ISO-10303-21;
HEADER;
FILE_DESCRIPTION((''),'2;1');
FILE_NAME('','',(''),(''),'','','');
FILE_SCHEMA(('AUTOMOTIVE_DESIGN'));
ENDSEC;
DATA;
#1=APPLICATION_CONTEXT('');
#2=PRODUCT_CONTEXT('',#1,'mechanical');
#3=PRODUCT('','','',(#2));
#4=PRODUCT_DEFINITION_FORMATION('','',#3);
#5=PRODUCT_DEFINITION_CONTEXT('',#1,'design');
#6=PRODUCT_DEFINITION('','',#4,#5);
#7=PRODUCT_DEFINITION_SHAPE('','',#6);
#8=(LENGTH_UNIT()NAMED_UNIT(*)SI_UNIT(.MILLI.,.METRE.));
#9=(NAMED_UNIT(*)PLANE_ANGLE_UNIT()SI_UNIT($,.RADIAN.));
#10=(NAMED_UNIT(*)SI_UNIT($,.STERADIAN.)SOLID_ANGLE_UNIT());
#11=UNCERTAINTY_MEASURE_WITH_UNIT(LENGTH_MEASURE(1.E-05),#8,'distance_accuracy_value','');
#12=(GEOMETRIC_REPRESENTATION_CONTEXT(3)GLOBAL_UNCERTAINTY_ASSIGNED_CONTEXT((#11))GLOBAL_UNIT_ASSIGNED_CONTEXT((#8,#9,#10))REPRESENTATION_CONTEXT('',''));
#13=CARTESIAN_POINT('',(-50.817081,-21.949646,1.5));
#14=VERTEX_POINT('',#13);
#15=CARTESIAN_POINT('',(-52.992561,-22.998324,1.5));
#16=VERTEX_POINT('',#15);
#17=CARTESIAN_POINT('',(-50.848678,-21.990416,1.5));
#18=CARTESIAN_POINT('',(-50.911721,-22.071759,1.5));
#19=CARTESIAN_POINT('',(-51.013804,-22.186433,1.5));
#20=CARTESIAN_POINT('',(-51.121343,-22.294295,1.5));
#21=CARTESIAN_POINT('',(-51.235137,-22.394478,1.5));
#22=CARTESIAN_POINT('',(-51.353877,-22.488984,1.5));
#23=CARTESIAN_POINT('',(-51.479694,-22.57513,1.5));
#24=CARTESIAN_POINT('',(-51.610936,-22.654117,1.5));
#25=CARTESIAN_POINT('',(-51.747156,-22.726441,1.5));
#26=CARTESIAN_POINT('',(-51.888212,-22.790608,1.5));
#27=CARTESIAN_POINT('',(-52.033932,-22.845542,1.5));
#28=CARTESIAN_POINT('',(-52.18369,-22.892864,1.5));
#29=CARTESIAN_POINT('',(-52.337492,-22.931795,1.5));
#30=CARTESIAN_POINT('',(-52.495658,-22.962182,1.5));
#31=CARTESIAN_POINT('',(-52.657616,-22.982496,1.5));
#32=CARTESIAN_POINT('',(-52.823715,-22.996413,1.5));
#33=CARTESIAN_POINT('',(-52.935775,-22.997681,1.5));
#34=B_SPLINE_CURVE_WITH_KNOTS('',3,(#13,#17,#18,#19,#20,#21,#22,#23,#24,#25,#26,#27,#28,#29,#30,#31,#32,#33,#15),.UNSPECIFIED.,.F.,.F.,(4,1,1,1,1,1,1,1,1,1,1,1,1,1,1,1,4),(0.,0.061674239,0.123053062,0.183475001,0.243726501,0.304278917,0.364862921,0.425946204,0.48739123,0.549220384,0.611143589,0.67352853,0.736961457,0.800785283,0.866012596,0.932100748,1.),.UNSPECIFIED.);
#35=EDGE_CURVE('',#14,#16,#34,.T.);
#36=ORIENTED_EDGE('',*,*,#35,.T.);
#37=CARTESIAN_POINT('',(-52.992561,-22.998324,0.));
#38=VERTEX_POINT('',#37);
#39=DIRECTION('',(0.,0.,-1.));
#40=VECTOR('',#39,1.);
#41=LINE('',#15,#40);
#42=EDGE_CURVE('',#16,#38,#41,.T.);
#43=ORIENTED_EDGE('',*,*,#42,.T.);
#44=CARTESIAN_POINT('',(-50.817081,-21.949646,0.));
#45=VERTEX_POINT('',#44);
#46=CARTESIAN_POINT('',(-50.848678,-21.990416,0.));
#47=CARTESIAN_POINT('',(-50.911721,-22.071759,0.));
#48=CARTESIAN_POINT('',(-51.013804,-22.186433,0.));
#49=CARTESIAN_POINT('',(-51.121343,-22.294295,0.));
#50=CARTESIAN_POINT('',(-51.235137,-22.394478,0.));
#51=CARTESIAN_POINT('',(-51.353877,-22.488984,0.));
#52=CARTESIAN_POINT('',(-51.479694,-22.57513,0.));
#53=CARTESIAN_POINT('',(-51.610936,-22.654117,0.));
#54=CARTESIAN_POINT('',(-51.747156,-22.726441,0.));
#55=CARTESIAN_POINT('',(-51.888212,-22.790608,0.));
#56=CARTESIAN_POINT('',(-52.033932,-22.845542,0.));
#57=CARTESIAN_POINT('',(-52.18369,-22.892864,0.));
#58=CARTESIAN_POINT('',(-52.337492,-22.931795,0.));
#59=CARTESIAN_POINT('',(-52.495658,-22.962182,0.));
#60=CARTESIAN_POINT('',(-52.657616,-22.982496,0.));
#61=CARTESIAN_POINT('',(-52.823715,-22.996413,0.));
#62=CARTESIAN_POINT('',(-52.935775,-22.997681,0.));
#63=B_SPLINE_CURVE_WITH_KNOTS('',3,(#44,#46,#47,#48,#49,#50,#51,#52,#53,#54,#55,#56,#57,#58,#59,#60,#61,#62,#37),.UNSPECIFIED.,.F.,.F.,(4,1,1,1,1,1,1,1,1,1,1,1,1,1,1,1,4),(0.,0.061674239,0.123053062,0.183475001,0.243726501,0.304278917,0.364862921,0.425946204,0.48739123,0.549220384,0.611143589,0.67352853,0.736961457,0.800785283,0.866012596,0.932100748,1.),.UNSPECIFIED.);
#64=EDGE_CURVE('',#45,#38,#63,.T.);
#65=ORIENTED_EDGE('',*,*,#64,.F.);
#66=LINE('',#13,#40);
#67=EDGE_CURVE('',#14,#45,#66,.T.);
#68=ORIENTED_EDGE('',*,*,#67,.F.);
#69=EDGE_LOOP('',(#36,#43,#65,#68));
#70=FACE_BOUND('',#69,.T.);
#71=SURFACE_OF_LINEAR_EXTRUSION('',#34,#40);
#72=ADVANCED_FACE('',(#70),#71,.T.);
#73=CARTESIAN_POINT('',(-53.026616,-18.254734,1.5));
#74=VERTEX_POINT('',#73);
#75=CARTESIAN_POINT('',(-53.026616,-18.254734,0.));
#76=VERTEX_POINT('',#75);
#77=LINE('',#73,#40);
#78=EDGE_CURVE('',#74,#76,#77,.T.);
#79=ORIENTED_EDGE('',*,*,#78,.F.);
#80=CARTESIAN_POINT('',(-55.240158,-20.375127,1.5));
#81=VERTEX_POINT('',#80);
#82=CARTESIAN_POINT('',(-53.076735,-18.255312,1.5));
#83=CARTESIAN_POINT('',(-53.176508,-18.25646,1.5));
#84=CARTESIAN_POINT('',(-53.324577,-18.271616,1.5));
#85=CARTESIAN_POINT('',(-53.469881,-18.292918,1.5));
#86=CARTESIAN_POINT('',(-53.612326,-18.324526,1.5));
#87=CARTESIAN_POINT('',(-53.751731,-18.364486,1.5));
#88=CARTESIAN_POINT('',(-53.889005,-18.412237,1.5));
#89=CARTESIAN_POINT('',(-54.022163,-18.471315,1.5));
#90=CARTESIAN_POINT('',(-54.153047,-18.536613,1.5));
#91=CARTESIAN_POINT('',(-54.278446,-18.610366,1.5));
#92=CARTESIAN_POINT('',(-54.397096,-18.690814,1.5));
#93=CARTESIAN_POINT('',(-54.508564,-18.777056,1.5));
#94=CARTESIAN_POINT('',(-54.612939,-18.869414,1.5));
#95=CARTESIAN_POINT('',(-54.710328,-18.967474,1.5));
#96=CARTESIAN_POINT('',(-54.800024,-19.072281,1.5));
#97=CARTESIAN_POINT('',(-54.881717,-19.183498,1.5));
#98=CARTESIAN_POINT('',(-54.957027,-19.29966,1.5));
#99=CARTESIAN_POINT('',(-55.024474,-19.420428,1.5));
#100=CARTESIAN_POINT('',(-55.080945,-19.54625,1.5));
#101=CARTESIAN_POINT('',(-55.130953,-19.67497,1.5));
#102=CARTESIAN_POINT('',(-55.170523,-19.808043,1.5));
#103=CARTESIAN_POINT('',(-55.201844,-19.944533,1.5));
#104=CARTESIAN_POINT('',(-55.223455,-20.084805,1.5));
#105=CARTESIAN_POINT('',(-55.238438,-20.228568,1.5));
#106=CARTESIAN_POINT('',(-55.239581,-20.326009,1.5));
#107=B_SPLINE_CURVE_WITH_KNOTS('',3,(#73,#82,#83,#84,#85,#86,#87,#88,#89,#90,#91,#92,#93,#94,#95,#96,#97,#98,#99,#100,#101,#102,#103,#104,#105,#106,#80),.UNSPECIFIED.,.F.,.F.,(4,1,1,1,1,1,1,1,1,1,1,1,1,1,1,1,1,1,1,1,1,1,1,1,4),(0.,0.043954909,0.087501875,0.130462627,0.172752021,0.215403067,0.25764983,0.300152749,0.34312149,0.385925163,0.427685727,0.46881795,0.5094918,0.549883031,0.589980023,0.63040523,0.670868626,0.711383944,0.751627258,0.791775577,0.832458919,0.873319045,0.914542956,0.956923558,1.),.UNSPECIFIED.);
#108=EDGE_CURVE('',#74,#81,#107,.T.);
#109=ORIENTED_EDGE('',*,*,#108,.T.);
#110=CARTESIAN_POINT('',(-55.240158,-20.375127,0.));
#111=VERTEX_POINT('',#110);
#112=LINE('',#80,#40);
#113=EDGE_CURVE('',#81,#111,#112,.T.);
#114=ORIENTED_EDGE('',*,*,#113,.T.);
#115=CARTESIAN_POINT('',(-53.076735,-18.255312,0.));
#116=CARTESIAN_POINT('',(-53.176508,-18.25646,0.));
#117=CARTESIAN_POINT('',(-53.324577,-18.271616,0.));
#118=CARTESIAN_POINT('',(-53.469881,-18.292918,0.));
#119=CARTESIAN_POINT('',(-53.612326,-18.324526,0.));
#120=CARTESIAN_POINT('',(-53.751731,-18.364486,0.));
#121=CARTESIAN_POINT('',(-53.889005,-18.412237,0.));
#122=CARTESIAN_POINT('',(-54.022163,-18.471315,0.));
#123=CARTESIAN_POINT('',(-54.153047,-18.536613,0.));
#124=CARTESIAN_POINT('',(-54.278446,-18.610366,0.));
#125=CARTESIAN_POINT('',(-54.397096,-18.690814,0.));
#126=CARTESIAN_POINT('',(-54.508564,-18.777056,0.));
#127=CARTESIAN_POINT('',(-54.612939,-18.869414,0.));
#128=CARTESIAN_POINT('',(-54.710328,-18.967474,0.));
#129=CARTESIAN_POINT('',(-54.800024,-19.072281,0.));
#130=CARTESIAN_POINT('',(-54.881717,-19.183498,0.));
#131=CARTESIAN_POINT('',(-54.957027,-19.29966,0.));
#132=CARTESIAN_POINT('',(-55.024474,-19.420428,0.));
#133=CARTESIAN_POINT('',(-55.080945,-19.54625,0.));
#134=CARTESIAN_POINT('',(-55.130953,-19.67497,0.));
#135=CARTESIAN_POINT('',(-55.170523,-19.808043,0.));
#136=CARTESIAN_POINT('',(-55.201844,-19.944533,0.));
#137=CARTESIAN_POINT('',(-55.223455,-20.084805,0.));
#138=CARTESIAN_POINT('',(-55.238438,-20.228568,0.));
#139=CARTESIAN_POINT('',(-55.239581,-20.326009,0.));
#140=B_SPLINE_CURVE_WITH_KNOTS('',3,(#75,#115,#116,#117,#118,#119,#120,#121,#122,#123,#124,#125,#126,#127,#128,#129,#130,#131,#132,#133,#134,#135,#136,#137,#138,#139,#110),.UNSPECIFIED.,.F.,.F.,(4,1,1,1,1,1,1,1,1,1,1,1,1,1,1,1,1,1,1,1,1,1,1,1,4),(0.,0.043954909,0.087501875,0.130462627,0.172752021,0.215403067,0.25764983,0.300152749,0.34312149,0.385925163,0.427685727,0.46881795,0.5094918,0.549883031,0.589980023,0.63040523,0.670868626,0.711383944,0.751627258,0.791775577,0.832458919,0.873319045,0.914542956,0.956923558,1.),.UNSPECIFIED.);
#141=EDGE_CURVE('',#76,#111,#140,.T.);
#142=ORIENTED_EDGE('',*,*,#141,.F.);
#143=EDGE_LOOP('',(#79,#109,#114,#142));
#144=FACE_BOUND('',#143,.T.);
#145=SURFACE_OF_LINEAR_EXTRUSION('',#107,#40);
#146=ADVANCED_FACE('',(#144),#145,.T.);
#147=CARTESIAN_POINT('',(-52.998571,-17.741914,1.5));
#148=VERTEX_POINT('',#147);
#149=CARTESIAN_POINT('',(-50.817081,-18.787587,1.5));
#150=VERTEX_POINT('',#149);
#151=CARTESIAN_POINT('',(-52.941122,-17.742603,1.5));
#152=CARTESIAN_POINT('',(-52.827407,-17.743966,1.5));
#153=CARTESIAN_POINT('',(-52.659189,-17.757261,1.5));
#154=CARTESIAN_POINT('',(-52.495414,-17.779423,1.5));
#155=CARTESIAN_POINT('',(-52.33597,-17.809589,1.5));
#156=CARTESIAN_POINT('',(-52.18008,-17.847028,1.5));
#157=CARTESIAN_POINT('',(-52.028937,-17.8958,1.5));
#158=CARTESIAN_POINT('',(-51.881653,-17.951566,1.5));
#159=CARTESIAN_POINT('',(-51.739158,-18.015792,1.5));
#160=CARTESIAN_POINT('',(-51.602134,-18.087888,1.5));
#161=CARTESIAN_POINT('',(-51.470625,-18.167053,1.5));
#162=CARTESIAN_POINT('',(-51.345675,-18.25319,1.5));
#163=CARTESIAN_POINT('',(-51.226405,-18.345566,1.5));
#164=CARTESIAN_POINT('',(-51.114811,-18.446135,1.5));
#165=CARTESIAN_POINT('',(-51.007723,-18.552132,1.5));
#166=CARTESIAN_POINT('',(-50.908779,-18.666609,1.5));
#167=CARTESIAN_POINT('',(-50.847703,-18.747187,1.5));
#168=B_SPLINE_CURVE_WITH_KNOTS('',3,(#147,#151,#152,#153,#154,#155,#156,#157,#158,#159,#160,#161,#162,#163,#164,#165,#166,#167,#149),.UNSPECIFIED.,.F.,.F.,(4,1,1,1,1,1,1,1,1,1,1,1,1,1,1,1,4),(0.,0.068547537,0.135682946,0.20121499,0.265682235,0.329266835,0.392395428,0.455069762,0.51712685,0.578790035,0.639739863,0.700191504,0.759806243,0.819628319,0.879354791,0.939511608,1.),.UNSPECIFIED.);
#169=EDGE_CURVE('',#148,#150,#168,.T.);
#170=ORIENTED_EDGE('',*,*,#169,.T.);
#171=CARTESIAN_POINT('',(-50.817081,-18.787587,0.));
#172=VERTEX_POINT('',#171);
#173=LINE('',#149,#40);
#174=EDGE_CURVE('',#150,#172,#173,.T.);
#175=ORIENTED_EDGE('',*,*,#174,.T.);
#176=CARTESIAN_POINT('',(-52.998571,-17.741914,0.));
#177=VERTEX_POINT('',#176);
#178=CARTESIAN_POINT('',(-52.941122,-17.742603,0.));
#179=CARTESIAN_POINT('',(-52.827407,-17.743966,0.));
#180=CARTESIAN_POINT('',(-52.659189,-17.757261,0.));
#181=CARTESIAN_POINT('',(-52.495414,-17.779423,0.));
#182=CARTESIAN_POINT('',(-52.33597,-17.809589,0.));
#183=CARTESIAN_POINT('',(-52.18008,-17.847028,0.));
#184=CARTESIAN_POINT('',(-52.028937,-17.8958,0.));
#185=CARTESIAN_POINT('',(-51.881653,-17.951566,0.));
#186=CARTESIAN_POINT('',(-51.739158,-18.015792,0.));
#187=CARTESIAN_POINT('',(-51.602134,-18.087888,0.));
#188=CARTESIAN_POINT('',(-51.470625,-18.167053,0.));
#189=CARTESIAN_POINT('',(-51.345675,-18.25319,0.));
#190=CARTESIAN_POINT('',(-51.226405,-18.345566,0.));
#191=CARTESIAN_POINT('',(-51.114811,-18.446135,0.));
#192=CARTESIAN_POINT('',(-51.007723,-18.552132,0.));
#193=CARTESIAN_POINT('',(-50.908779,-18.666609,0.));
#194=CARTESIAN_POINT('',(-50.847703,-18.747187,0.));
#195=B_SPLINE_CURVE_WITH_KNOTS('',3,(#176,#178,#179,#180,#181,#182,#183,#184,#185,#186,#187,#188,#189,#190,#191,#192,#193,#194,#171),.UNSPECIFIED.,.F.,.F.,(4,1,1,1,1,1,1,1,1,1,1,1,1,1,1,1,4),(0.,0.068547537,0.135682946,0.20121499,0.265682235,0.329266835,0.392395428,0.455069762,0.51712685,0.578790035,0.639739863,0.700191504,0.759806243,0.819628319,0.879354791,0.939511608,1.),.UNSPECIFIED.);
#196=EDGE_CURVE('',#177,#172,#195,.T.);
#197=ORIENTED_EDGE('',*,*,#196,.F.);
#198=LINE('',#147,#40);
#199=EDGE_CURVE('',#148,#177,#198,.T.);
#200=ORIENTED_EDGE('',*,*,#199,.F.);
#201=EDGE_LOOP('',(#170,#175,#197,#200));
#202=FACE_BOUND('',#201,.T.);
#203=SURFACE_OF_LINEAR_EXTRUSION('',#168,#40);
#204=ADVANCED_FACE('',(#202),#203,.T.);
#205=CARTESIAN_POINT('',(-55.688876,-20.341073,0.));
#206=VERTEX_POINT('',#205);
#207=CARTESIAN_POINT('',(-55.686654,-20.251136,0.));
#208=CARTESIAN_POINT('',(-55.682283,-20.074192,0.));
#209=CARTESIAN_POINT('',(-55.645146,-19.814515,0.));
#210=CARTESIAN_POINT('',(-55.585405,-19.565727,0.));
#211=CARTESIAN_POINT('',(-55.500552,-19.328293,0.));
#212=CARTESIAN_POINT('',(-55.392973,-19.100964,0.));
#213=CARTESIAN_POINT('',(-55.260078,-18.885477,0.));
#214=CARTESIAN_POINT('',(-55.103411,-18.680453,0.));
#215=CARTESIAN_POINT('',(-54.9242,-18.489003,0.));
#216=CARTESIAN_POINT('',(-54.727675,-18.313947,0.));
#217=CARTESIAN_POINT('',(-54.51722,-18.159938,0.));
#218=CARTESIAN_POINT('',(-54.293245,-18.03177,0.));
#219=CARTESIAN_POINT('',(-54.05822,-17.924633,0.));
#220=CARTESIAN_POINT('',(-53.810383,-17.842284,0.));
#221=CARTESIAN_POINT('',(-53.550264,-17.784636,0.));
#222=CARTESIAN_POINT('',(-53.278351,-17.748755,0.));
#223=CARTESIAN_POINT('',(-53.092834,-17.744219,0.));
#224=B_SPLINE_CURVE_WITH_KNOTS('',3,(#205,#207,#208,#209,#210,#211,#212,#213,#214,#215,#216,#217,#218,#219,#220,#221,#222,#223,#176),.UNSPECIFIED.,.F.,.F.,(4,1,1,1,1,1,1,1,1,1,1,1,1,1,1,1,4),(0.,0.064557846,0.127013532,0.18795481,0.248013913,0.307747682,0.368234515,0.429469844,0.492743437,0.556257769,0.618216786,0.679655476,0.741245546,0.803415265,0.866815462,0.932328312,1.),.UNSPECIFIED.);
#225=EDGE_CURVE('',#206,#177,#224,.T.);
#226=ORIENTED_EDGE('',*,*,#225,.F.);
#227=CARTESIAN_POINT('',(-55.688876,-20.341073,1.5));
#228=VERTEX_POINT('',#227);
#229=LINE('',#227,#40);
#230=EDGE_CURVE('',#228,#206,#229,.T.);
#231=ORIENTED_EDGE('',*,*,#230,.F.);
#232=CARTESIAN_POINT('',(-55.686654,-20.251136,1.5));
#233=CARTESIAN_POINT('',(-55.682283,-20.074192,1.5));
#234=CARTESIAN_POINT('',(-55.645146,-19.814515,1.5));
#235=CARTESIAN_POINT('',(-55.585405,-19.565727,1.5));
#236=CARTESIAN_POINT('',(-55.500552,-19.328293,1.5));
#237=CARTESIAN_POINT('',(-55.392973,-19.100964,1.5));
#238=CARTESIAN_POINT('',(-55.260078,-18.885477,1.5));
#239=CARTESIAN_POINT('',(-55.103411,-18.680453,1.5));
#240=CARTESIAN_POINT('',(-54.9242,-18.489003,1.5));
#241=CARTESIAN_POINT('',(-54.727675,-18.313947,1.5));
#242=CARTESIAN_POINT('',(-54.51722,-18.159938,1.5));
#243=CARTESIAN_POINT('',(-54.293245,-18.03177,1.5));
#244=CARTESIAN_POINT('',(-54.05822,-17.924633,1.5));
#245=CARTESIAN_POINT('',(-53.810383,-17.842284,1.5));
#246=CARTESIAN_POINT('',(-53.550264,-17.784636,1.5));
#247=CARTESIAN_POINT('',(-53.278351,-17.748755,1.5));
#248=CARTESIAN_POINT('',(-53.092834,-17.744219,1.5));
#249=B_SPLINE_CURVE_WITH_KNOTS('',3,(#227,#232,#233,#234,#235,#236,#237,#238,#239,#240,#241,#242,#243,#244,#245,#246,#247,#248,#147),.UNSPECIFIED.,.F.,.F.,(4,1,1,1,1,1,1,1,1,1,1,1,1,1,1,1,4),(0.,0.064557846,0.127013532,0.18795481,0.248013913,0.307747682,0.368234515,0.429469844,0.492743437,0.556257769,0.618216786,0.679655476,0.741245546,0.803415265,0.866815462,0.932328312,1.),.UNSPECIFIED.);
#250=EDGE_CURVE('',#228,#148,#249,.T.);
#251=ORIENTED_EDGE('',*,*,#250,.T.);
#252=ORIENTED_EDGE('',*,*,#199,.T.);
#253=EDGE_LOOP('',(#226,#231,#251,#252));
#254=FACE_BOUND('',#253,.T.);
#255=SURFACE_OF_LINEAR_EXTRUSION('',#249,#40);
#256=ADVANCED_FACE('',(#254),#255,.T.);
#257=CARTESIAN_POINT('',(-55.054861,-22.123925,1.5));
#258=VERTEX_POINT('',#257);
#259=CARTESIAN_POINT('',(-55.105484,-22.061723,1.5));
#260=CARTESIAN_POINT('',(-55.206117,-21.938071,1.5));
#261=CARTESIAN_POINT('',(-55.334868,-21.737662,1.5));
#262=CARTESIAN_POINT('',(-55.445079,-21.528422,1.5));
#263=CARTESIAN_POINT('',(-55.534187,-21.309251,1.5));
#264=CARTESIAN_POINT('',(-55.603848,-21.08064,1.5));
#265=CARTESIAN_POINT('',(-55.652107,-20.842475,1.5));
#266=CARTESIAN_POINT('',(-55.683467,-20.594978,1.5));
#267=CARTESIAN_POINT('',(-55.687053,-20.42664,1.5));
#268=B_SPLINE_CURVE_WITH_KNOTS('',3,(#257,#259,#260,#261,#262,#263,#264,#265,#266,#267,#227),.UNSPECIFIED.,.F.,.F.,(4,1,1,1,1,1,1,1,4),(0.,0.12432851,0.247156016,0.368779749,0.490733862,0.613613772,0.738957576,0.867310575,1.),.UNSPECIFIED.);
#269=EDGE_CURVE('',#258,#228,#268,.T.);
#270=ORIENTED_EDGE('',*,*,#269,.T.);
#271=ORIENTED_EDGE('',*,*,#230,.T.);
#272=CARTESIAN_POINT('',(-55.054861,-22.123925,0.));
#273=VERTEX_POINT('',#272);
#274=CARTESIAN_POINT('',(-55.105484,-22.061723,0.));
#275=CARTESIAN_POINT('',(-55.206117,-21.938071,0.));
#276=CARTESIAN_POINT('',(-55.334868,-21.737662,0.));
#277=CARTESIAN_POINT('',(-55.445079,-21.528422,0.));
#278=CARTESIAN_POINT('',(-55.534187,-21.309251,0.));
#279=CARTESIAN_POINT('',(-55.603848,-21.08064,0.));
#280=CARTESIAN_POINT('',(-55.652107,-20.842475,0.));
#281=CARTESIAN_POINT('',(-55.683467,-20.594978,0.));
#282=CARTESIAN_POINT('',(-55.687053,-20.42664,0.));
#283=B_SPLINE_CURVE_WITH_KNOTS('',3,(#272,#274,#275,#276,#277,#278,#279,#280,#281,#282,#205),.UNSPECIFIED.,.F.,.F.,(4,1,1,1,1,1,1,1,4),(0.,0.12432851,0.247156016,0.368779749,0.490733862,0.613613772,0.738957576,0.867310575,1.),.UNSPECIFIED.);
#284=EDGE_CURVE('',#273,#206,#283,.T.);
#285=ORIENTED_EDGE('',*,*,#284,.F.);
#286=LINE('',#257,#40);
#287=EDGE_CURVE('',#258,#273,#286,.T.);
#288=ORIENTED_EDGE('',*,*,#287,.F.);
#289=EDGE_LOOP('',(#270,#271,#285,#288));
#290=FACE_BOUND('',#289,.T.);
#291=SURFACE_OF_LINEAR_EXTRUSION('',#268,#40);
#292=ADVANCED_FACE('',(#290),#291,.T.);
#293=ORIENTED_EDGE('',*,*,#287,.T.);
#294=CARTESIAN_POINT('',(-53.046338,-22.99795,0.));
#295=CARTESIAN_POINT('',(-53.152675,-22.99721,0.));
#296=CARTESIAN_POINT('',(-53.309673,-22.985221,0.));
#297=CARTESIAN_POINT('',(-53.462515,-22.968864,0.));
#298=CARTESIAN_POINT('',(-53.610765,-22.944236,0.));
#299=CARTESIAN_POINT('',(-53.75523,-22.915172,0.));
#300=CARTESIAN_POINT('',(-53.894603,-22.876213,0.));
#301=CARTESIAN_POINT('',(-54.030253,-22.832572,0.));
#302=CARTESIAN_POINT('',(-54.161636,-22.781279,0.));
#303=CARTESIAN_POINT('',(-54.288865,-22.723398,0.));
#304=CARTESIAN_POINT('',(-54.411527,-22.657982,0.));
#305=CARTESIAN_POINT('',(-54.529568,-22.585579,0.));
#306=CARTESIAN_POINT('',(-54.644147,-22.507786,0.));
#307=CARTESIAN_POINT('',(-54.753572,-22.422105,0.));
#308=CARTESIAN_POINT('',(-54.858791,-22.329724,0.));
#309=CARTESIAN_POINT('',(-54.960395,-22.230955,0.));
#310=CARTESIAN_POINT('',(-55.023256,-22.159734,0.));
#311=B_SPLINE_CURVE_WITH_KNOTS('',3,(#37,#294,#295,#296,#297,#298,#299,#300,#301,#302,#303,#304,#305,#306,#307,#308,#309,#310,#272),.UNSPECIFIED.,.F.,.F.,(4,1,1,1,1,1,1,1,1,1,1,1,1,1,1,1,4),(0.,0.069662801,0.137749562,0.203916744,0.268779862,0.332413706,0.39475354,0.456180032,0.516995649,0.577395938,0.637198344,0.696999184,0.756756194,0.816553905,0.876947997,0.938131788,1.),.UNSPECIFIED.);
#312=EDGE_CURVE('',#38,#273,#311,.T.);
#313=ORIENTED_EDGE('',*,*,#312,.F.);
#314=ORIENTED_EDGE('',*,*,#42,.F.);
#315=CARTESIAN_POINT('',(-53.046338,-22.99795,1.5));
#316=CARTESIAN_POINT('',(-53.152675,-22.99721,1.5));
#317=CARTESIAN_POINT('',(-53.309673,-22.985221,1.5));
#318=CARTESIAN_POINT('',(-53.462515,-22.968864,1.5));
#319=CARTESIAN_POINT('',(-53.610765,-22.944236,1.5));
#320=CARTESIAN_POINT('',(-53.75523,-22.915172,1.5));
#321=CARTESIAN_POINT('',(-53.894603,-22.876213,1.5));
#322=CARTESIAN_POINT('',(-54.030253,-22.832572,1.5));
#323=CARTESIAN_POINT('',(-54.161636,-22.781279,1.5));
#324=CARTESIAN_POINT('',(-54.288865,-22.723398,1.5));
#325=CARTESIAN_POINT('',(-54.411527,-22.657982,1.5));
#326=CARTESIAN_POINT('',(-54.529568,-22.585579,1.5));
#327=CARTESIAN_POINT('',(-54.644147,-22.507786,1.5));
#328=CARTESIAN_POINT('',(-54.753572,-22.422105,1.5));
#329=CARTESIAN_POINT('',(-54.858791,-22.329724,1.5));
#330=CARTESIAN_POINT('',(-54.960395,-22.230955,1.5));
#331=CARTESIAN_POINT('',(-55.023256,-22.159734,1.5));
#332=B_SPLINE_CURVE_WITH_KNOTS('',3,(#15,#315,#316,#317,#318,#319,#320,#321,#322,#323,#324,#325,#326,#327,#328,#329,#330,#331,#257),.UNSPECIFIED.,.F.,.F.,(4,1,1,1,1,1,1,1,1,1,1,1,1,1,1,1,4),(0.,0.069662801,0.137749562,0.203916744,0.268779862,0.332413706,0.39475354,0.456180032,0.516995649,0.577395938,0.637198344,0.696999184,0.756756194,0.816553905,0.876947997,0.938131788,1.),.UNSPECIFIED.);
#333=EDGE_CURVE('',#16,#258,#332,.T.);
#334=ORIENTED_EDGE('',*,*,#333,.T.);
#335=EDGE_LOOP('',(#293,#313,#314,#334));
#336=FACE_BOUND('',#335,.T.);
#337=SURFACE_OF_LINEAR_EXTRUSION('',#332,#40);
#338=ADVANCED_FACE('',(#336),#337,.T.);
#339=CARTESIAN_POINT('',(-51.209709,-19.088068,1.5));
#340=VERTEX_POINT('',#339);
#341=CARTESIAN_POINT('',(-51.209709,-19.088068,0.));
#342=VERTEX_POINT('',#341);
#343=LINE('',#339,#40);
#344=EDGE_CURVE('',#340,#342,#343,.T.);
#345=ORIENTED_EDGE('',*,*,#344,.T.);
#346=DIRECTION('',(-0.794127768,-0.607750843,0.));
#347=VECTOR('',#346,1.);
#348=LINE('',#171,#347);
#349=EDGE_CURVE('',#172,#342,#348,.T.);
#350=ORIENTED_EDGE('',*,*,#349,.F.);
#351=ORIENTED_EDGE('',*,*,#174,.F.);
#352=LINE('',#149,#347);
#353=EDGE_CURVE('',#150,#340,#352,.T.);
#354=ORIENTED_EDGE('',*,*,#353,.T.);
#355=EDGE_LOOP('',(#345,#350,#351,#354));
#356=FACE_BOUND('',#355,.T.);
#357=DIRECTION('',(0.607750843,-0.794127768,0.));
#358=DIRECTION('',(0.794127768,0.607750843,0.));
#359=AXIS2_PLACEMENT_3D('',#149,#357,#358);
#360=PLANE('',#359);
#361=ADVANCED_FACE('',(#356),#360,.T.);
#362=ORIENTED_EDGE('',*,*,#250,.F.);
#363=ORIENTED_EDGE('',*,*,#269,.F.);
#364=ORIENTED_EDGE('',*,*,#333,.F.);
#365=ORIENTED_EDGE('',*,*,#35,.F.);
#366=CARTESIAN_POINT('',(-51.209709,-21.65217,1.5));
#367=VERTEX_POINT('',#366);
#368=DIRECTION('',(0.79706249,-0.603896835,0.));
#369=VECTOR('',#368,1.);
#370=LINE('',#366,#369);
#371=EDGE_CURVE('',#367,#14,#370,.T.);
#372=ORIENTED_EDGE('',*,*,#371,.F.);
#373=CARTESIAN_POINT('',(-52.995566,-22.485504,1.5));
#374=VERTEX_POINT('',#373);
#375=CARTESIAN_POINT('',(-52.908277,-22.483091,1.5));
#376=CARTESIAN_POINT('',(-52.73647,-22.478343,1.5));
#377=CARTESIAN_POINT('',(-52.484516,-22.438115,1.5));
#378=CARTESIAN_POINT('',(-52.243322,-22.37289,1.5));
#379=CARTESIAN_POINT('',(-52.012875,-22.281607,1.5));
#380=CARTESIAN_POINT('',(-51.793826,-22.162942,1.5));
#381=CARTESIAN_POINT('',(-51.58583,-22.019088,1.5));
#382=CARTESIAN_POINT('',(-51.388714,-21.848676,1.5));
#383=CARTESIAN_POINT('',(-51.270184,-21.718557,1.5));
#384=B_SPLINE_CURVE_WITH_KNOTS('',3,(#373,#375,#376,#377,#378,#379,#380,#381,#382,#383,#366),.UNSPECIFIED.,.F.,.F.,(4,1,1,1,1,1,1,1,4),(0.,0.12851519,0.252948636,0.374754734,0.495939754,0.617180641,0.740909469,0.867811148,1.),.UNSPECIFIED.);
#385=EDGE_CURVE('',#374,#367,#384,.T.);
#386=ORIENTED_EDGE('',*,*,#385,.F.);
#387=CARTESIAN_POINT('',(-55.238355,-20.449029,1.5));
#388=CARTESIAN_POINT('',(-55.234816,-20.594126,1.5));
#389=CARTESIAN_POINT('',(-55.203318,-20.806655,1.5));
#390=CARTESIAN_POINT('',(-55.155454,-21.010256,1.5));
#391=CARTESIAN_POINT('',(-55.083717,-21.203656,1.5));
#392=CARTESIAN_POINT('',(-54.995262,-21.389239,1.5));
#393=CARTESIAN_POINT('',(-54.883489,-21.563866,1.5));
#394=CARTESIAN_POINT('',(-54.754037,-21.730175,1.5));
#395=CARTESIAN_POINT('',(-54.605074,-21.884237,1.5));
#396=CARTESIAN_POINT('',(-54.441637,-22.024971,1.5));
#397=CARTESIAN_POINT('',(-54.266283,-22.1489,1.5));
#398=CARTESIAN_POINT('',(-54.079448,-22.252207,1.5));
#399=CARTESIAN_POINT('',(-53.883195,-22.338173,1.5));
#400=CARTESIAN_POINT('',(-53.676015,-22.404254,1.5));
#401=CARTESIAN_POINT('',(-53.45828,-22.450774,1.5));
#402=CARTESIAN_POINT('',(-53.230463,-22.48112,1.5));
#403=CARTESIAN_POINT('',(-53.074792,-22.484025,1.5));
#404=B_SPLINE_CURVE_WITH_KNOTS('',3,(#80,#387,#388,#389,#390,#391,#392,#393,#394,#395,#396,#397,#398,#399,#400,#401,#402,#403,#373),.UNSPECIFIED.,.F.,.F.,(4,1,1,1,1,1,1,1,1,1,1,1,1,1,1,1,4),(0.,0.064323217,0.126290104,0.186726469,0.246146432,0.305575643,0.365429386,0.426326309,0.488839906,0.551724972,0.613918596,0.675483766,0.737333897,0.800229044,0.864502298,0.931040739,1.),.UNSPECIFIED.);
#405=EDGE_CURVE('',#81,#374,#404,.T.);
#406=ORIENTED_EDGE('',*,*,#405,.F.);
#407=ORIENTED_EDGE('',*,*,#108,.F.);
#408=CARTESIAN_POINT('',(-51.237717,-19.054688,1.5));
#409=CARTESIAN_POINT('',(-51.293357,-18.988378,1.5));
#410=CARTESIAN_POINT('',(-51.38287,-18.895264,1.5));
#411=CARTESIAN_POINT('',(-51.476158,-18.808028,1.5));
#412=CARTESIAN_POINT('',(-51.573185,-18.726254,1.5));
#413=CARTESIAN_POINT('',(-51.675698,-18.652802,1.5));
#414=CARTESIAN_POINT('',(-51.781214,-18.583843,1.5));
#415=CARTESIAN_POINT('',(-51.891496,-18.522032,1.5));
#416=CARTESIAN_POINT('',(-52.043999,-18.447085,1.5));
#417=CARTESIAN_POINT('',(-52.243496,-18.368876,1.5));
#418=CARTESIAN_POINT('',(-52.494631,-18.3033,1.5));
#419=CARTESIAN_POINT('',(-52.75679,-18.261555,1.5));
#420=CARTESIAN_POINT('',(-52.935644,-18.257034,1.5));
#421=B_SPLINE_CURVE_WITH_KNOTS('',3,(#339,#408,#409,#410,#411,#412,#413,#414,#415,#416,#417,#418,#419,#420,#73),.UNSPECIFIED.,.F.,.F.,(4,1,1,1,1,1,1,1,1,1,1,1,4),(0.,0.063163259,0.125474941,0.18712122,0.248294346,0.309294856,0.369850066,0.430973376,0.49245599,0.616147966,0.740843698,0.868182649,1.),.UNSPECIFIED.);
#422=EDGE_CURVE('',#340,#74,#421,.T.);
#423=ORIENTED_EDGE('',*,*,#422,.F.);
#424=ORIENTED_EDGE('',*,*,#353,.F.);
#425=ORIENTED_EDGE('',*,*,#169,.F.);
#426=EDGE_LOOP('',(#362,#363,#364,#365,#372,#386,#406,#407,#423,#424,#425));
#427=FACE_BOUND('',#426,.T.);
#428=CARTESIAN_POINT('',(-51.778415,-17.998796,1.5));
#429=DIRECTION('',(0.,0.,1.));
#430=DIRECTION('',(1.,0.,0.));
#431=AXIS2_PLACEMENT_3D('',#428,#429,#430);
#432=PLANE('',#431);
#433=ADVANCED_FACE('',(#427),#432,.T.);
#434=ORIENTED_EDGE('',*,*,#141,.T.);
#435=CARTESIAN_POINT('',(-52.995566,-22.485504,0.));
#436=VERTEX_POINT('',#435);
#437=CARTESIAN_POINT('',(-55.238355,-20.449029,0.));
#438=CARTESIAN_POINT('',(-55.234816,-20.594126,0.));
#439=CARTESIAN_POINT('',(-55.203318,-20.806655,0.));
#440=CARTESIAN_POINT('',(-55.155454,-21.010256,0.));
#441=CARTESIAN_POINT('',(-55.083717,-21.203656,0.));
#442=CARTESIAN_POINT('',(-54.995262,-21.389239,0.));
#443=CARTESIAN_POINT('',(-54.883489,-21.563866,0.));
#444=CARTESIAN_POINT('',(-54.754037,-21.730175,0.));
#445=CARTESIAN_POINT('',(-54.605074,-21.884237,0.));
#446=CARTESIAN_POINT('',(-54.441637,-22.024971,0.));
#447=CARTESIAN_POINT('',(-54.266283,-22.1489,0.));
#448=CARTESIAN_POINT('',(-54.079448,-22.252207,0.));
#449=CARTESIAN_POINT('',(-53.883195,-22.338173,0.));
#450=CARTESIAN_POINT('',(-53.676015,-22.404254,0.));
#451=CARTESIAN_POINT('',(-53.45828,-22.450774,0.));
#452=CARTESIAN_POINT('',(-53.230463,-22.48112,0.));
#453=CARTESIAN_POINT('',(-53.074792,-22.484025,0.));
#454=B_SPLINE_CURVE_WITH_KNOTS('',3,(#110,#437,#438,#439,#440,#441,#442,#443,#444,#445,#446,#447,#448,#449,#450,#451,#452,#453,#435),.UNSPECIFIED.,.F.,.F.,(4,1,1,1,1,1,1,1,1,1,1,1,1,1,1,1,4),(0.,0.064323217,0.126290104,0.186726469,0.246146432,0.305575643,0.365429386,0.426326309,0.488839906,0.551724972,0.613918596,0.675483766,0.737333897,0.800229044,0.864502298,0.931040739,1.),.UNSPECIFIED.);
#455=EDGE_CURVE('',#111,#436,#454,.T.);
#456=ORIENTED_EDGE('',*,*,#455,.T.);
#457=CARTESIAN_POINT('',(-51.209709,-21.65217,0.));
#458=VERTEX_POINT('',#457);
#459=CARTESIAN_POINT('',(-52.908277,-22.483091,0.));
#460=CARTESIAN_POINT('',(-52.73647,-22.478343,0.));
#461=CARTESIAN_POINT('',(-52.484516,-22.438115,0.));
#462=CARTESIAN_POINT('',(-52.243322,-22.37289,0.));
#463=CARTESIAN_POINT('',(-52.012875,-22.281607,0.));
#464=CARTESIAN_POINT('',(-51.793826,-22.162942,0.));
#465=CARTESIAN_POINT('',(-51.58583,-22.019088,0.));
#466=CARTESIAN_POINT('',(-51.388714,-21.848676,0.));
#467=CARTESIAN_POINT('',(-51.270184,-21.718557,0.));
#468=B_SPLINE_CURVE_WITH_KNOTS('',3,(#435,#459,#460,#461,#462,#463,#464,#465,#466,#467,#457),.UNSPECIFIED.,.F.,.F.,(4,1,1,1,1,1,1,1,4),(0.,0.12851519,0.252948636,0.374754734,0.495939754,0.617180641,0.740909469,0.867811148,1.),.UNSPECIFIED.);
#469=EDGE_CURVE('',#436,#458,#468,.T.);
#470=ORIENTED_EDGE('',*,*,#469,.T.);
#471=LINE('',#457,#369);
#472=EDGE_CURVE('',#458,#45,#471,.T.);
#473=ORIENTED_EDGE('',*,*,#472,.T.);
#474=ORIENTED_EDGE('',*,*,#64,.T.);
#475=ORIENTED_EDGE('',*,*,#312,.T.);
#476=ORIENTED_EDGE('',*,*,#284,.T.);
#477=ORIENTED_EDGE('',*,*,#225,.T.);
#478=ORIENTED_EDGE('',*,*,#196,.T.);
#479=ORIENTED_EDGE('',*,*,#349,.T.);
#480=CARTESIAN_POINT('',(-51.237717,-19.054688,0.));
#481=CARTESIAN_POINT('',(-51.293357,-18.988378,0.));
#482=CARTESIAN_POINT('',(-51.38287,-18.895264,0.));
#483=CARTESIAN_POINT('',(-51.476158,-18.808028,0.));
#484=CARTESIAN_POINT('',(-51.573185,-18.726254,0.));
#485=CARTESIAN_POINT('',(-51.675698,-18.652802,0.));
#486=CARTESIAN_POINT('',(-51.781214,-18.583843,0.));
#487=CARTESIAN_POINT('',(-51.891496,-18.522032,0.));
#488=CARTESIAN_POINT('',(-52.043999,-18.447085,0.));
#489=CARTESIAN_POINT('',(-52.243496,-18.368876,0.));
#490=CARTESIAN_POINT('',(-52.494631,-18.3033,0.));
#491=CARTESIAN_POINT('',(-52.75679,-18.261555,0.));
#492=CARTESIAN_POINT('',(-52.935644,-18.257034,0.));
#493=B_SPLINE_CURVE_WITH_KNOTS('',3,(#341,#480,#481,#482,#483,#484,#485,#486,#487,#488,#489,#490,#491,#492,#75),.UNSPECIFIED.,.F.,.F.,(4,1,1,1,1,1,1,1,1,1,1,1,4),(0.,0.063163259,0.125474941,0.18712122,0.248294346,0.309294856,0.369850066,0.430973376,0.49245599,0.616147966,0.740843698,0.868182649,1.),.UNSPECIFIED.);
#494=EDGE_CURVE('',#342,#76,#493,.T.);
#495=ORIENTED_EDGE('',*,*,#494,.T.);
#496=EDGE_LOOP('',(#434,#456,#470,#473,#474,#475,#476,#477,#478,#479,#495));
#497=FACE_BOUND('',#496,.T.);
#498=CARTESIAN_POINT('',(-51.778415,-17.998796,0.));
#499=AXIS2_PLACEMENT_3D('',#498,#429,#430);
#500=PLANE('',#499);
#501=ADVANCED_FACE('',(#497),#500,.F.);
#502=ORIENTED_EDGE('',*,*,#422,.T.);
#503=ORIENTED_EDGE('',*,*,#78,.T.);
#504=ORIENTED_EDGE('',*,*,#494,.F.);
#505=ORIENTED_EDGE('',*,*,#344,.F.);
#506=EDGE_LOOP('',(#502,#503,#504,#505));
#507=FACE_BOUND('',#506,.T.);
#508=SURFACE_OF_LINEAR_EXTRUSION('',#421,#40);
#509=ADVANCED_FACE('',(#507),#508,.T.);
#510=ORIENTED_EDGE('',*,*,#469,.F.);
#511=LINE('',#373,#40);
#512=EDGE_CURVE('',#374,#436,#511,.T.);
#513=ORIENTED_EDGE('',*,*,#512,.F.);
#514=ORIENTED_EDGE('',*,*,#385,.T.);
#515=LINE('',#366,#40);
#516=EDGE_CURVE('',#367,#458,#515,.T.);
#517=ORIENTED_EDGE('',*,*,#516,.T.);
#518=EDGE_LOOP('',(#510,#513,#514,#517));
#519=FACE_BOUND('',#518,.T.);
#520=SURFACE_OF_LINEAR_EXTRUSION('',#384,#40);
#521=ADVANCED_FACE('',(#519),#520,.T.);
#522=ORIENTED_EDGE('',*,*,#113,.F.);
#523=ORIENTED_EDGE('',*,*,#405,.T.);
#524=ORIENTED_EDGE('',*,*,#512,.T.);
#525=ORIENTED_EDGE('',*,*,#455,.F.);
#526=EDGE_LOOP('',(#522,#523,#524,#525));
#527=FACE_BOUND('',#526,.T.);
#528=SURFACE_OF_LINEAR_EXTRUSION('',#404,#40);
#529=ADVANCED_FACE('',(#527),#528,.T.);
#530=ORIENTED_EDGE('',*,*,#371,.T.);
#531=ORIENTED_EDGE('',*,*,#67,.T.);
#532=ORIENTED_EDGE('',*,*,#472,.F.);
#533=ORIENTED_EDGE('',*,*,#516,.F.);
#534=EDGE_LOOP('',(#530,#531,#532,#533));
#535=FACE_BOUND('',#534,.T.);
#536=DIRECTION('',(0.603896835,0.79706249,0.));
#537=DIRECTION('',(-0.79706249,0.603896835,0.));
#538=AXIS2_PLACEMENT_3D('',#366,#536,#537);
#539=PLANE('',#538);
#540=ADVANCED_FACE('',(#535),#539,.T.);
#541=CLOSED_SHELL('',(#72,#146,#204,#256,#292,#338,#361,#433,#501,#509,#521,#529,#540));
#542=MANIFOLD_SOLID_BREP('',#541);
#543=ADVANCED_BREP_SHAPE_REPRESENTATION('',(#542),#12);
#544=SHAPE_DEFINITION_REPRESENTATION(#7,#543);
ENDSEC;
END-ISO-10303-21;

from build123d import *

# Parameters (mm, degrees)
BOSS_EXTRU_1_DEPTH = 1.5


with BuildPart() as part:
    # Esquisse1 → Boss.-Extru.1 (new body)
    with BuildSketch(Plane.XY):
        with BuildLine():
            Line((-50.81708071, -18.787587025), (-51.209708916, -19.088067794))
            add(Edge.make_bspline(
                [(-51.209708916, -19.088067794), (-51.237717328, -19.054687837), (-51.293356537, -18.988377958), (-51.382869684, -18.895264323), (-51.476157745, -18.808028235), (-51.573185061, -18.726254121), (-51.675698089, -18.652801599), (-51.781213516, -18.58384288), (-51.891496437, -18.522031826), (-52.043998915, -18.447084703), (-52.243495841, -18.36887591), (-52.494631326, -18.303299865), (-52.756790038, -18.261555329), (-52.935643752, -18.257034127), (-53.026615967, -18.254734461)],
                knots=[0, 0, 0, 0, 0.757959112, 1.505699292, 2.245454638, 2.979532153, 3.711538275, 4.438200793, 5.171680507, 5.909471876, 7.393775596, 8.890124382, 10.418191784, 12, 12, 12, 12], degree=3))
            add(Edge.make_bspline(
                [(-53.026615967, -18.254734461), (-53.076734966, -18.25531155), (-53.176507812, -18.256460373), (-53.32457706, -18.271616266), (-53.469881419, -18.292917995), (-53.612326371, -18.324525599), (-53.751730597, -18.364486484), (-53.889005457, -18.412237075), (-54.022163457, -18.471315418), (-54.153046655, -18.536612932), (-54.278445527, -18.610366424), (-54.397095596, -18.69081407), (-54.508564121, -18.777055636), (-54.612939281, -18.86941436), (-54.710327779, -18.967474303), (-54.800023937, -19.072280505), (-54.881717381, -19.183497896), (-54.957027416, -19.299659907), (-55.024474178, -19.420428181), (-55.080945435, -19.54624971), (-55.130952752, -19.674969857), (-55.170523099, -19.808042944), (-55.201843837, -19.944532609), (-55.223454785, -20.084805164), (-55.238438315, -20.228567563), (-55.239581425, -20.326009438), (-55.240157634, -20.375127089)],
                knots=[0, 0, 0, 0, 1.054917814, 2.100044995, 3.131103042, 4.146048494, 5.169673617, 6.183595914, 7.203665975, 8.234915748, 9.262203917, 10.264457458, 11.251630812, 12.227803204, 13.197192746, 14.159520551, 15.12972552, 16.100847026, 17.073214652, 18.039054194, 19.002613845, 19.979014051, 20.95965708, 21.949030935, 22.966165397, 24, 24, 24, 24], degree=3))
            add(Edge.make_bspline(
                [(-55.240157634, -20.375127089), (-55.238355035, -20.449028975), (-55.234815872, -20.594125524), (-55.203318252, -20.806654968), (-55.155453835, -21.010255931), (-55.083717297, -21.203655705), (-54.99526151, -21.389239074), (-54.883489208, -21.563866007), (-54.754037012, -21.730175385), (-54.605073556, -21.884236739), (-54.441636676, -22.024970633), (-54.266282516, -22.148900035), (-54.079447819, -22.25220701), (-53.883195491, -22.338172648), (-53.676015328, -22.404253687), (-53.458279896, -22.450773863), (-53.23046276, -22.481119836), (-53.074792189, -22.484025104), (-52.995566287, -22.485503692)],
                knots=[0, 0, 0, 0, 1.029171465, 2.020641659, 2.987623507, 3.938342917, 4.889210282, 5.84687017, 6.821220943, 7.821438502, 8.827599549, 9.822697543, 10.807740252, 11.797342354, 12.80366471, 13.83203677, 14.896651826, 16, 16, 16, 16], degree=3))
            add(Edge.make_bspline(
                [(-52.995566287, -22.485503692), (-52.908276732, -22.483091149), (-52.736470005, -22.478342688), (-52.484515681, -22.43811519), (-52.24332173, -22.372889593), (-52.012875178, -22.281606847), (-51.793825684, -22.16294215), (-51.585830455, -22.019088039), (-51.388713925, -21.848676135), (-51.270183522, -21.71855738), (-51.209708916, -21.652170358)],
                knots=[0, 0, 0, 0, 1.028121516, 2.023589091, 2.998037872, 3.967518031, 4.937445131, 5.927275754, 6.942489185, 8, 8, 8, 8], degree=3))
            Line((-51.209708916, -21.652170358), (-50.81708071, -21.94964632))
            add(Edge.make_bspline(
                [(-50.81708071, -21.94964632), (-50.84867801, -21.990415537), (-50.911721261, -22.071758689), (-51.013804142, -22.18643256), (-51.121343138, -22.294295468), (-51.23513701, -22.394477784), (-51.353876712, -22.488984163), (-51.479694301, -22.575129636), (-51.610935776, -22.654116614), (-51.74715646, -22.726440792), (-51.888211621, -22.790608287), (-52.033932243, -22.845542241), (-52.183690208, -22.892863512), (-52.337492363, -22.93179485), (-52.49565773, -22.962182113), (-52.65761555, -22.982495934), (-52.823715371, -22.996412955), (-52.935774544, -22.997681406), (-52.99256148, -22.998324204)],
                knots=[0, 0, 0, 0, 0.986787822, 1.968848986, 2.935600012, 3.899624008, 4.868462664, 5.837806735, 6.815139263, 7.798259679, 8.787526145, 9.778297419, 10.776456485, 11.791383307, 12.812564526, 13.85620153, 14.913611965, 16, 16, 16, 16], degree=3))
            add(Edge.make_bspline(
                [(-52.99256148, -22.998324204), (-53.046338147, -22.997949929), (-53.152674847, -22.997209847), (-53.309673064, -22.985221036), (-53.462515322, -22.968864269), (-53.610764787, -22.94423551), (-53.755230466, -22.915172168), (-53.89460273, -22.876213229), (-54.03025303, -22.832571563), (-54.161636374, -22.781278725), (-54.288864517, -22.723398464), (-54.411527104, -22.657981951), (-54.529567722, -22.585579287), (-54.644146895, -22.507786415), (-54.753572014, -22.422104556), (-54.858791336, -22.329723649), (-54.960394874, -22.230955062), (-55.023255852, -22.159733843), (-55.054861159, -22.123925166)],
                knots=[0, 0, 0, 0, 1.114604814, 2.203992996, 3.262667896, 4.300477797, 5.318619304, 6.316056647, 7.298880507, 8.271930387, 9.238335007, 10.195173496, 11.151986948, 12.108099108, 13.064862484, 14.031167946, 15.010108607, 16, 16, 16, 16], degree=3))
            add(Edge.make_bspline(
                [(-55.054861159, -22.123925166), (-55.105483507, -22.061723468), (-55.206117045, -21.938071024), (-55.334868022, -21.737662479), (-55.445078815, -21.528422181), (-55.534187273, -21.309250854), (-55.603848321, -21.080640301), (-55.652107171, -20.84247528), (-55.683466606, -20.59497822), (-55.687052733, -20.426639951), (-55.688875582, -20.341072602)],
                knots=[0, 0, 0, 0, 0.994628077, 1.977248131, 2.950237994, 3.925870899, 4.908910175, 5.911660606, 6.938484602, 8, 8, 8, 8], degree=3))
            add(Edge.make_bspline(
                [(-55.688875582, -20.341072602), (-55.686653877, -20.25113624), (-55.682282811, -20.074192062), (-55.64514596, -19.814514986), (-55.585404823, -19.565727273), (-55.500552125, -19.328293352), (-55.392973052, -19.10096438), (-55.260077889, -18.885476945), (-55.103410543, -18.680452945), (-54.924199732, -18.489003301), (-54.727674967, -18.313947083), (-54.517219519, -18.15993822), (-54.293245309, -18.03177034), (-54.058219807, -17.924632965), (-53.810383119, -17.842283732), (-53.55026402, -17.784636323), (-53.278351285, -17.748754728), (-53.092833534, -17.744218717), (-52.998571095, -17.741913948)],
                knots=[0, 0, 0, 0, 1.032925535, 2.032216505, 3.007276963, 3.968222605, 4.92396291, 5.891752235, 6.871517503, 7.883894988, 8.900124299, 9.891468569, 10.874487609, 11.85992873, 12.854644235, 13.869047385, 14.917252991, 16, 16, 16, 16], degree=3))
            add(Edge.make_bspline(
                [(-52.998571095, -17.741913948), (-52.941121849, -17.742602717), (-52.827406853, -17.743966065), (-52.659188778, -17.757260554), (-52.495414026, -17.779422849), (-52.335969766, -17.809588663), (-52.180080314, -17.847027693), (-52.028937113, -17.895799548), (-51.881653274, -17.951566022), (-51.739157691, -18.015792401), (-51.602134048, -18.087887746), (-51.470625022, -18.167052923), (-51.345675224, -18.253189788), (-51.22640544, -18.345565753), (-51.114810853, -18.446135123), (-51.007723026, -18.552131689), (-50.908778629, -18.66660858), (-50.847702636, -18.747187057), (-50.81708071, -18.787587025)],
                knots=[0, 0, 0, 0, 1.096760587, 2.17092713, 3.219439832, 4.250915756, 5.268269357, 6.278326846, 7.281116186, 8.274029601, 9.260640565, 10.235837813, 11.203064059, 12.156899882, 13.114053108, 14.069676657, 15.032185724, 16, 16, 16, 16], degree=3))
        make_face()
    extrude(amount=BOSS_EXTRU_1_DEPTH)


solid = part.part
